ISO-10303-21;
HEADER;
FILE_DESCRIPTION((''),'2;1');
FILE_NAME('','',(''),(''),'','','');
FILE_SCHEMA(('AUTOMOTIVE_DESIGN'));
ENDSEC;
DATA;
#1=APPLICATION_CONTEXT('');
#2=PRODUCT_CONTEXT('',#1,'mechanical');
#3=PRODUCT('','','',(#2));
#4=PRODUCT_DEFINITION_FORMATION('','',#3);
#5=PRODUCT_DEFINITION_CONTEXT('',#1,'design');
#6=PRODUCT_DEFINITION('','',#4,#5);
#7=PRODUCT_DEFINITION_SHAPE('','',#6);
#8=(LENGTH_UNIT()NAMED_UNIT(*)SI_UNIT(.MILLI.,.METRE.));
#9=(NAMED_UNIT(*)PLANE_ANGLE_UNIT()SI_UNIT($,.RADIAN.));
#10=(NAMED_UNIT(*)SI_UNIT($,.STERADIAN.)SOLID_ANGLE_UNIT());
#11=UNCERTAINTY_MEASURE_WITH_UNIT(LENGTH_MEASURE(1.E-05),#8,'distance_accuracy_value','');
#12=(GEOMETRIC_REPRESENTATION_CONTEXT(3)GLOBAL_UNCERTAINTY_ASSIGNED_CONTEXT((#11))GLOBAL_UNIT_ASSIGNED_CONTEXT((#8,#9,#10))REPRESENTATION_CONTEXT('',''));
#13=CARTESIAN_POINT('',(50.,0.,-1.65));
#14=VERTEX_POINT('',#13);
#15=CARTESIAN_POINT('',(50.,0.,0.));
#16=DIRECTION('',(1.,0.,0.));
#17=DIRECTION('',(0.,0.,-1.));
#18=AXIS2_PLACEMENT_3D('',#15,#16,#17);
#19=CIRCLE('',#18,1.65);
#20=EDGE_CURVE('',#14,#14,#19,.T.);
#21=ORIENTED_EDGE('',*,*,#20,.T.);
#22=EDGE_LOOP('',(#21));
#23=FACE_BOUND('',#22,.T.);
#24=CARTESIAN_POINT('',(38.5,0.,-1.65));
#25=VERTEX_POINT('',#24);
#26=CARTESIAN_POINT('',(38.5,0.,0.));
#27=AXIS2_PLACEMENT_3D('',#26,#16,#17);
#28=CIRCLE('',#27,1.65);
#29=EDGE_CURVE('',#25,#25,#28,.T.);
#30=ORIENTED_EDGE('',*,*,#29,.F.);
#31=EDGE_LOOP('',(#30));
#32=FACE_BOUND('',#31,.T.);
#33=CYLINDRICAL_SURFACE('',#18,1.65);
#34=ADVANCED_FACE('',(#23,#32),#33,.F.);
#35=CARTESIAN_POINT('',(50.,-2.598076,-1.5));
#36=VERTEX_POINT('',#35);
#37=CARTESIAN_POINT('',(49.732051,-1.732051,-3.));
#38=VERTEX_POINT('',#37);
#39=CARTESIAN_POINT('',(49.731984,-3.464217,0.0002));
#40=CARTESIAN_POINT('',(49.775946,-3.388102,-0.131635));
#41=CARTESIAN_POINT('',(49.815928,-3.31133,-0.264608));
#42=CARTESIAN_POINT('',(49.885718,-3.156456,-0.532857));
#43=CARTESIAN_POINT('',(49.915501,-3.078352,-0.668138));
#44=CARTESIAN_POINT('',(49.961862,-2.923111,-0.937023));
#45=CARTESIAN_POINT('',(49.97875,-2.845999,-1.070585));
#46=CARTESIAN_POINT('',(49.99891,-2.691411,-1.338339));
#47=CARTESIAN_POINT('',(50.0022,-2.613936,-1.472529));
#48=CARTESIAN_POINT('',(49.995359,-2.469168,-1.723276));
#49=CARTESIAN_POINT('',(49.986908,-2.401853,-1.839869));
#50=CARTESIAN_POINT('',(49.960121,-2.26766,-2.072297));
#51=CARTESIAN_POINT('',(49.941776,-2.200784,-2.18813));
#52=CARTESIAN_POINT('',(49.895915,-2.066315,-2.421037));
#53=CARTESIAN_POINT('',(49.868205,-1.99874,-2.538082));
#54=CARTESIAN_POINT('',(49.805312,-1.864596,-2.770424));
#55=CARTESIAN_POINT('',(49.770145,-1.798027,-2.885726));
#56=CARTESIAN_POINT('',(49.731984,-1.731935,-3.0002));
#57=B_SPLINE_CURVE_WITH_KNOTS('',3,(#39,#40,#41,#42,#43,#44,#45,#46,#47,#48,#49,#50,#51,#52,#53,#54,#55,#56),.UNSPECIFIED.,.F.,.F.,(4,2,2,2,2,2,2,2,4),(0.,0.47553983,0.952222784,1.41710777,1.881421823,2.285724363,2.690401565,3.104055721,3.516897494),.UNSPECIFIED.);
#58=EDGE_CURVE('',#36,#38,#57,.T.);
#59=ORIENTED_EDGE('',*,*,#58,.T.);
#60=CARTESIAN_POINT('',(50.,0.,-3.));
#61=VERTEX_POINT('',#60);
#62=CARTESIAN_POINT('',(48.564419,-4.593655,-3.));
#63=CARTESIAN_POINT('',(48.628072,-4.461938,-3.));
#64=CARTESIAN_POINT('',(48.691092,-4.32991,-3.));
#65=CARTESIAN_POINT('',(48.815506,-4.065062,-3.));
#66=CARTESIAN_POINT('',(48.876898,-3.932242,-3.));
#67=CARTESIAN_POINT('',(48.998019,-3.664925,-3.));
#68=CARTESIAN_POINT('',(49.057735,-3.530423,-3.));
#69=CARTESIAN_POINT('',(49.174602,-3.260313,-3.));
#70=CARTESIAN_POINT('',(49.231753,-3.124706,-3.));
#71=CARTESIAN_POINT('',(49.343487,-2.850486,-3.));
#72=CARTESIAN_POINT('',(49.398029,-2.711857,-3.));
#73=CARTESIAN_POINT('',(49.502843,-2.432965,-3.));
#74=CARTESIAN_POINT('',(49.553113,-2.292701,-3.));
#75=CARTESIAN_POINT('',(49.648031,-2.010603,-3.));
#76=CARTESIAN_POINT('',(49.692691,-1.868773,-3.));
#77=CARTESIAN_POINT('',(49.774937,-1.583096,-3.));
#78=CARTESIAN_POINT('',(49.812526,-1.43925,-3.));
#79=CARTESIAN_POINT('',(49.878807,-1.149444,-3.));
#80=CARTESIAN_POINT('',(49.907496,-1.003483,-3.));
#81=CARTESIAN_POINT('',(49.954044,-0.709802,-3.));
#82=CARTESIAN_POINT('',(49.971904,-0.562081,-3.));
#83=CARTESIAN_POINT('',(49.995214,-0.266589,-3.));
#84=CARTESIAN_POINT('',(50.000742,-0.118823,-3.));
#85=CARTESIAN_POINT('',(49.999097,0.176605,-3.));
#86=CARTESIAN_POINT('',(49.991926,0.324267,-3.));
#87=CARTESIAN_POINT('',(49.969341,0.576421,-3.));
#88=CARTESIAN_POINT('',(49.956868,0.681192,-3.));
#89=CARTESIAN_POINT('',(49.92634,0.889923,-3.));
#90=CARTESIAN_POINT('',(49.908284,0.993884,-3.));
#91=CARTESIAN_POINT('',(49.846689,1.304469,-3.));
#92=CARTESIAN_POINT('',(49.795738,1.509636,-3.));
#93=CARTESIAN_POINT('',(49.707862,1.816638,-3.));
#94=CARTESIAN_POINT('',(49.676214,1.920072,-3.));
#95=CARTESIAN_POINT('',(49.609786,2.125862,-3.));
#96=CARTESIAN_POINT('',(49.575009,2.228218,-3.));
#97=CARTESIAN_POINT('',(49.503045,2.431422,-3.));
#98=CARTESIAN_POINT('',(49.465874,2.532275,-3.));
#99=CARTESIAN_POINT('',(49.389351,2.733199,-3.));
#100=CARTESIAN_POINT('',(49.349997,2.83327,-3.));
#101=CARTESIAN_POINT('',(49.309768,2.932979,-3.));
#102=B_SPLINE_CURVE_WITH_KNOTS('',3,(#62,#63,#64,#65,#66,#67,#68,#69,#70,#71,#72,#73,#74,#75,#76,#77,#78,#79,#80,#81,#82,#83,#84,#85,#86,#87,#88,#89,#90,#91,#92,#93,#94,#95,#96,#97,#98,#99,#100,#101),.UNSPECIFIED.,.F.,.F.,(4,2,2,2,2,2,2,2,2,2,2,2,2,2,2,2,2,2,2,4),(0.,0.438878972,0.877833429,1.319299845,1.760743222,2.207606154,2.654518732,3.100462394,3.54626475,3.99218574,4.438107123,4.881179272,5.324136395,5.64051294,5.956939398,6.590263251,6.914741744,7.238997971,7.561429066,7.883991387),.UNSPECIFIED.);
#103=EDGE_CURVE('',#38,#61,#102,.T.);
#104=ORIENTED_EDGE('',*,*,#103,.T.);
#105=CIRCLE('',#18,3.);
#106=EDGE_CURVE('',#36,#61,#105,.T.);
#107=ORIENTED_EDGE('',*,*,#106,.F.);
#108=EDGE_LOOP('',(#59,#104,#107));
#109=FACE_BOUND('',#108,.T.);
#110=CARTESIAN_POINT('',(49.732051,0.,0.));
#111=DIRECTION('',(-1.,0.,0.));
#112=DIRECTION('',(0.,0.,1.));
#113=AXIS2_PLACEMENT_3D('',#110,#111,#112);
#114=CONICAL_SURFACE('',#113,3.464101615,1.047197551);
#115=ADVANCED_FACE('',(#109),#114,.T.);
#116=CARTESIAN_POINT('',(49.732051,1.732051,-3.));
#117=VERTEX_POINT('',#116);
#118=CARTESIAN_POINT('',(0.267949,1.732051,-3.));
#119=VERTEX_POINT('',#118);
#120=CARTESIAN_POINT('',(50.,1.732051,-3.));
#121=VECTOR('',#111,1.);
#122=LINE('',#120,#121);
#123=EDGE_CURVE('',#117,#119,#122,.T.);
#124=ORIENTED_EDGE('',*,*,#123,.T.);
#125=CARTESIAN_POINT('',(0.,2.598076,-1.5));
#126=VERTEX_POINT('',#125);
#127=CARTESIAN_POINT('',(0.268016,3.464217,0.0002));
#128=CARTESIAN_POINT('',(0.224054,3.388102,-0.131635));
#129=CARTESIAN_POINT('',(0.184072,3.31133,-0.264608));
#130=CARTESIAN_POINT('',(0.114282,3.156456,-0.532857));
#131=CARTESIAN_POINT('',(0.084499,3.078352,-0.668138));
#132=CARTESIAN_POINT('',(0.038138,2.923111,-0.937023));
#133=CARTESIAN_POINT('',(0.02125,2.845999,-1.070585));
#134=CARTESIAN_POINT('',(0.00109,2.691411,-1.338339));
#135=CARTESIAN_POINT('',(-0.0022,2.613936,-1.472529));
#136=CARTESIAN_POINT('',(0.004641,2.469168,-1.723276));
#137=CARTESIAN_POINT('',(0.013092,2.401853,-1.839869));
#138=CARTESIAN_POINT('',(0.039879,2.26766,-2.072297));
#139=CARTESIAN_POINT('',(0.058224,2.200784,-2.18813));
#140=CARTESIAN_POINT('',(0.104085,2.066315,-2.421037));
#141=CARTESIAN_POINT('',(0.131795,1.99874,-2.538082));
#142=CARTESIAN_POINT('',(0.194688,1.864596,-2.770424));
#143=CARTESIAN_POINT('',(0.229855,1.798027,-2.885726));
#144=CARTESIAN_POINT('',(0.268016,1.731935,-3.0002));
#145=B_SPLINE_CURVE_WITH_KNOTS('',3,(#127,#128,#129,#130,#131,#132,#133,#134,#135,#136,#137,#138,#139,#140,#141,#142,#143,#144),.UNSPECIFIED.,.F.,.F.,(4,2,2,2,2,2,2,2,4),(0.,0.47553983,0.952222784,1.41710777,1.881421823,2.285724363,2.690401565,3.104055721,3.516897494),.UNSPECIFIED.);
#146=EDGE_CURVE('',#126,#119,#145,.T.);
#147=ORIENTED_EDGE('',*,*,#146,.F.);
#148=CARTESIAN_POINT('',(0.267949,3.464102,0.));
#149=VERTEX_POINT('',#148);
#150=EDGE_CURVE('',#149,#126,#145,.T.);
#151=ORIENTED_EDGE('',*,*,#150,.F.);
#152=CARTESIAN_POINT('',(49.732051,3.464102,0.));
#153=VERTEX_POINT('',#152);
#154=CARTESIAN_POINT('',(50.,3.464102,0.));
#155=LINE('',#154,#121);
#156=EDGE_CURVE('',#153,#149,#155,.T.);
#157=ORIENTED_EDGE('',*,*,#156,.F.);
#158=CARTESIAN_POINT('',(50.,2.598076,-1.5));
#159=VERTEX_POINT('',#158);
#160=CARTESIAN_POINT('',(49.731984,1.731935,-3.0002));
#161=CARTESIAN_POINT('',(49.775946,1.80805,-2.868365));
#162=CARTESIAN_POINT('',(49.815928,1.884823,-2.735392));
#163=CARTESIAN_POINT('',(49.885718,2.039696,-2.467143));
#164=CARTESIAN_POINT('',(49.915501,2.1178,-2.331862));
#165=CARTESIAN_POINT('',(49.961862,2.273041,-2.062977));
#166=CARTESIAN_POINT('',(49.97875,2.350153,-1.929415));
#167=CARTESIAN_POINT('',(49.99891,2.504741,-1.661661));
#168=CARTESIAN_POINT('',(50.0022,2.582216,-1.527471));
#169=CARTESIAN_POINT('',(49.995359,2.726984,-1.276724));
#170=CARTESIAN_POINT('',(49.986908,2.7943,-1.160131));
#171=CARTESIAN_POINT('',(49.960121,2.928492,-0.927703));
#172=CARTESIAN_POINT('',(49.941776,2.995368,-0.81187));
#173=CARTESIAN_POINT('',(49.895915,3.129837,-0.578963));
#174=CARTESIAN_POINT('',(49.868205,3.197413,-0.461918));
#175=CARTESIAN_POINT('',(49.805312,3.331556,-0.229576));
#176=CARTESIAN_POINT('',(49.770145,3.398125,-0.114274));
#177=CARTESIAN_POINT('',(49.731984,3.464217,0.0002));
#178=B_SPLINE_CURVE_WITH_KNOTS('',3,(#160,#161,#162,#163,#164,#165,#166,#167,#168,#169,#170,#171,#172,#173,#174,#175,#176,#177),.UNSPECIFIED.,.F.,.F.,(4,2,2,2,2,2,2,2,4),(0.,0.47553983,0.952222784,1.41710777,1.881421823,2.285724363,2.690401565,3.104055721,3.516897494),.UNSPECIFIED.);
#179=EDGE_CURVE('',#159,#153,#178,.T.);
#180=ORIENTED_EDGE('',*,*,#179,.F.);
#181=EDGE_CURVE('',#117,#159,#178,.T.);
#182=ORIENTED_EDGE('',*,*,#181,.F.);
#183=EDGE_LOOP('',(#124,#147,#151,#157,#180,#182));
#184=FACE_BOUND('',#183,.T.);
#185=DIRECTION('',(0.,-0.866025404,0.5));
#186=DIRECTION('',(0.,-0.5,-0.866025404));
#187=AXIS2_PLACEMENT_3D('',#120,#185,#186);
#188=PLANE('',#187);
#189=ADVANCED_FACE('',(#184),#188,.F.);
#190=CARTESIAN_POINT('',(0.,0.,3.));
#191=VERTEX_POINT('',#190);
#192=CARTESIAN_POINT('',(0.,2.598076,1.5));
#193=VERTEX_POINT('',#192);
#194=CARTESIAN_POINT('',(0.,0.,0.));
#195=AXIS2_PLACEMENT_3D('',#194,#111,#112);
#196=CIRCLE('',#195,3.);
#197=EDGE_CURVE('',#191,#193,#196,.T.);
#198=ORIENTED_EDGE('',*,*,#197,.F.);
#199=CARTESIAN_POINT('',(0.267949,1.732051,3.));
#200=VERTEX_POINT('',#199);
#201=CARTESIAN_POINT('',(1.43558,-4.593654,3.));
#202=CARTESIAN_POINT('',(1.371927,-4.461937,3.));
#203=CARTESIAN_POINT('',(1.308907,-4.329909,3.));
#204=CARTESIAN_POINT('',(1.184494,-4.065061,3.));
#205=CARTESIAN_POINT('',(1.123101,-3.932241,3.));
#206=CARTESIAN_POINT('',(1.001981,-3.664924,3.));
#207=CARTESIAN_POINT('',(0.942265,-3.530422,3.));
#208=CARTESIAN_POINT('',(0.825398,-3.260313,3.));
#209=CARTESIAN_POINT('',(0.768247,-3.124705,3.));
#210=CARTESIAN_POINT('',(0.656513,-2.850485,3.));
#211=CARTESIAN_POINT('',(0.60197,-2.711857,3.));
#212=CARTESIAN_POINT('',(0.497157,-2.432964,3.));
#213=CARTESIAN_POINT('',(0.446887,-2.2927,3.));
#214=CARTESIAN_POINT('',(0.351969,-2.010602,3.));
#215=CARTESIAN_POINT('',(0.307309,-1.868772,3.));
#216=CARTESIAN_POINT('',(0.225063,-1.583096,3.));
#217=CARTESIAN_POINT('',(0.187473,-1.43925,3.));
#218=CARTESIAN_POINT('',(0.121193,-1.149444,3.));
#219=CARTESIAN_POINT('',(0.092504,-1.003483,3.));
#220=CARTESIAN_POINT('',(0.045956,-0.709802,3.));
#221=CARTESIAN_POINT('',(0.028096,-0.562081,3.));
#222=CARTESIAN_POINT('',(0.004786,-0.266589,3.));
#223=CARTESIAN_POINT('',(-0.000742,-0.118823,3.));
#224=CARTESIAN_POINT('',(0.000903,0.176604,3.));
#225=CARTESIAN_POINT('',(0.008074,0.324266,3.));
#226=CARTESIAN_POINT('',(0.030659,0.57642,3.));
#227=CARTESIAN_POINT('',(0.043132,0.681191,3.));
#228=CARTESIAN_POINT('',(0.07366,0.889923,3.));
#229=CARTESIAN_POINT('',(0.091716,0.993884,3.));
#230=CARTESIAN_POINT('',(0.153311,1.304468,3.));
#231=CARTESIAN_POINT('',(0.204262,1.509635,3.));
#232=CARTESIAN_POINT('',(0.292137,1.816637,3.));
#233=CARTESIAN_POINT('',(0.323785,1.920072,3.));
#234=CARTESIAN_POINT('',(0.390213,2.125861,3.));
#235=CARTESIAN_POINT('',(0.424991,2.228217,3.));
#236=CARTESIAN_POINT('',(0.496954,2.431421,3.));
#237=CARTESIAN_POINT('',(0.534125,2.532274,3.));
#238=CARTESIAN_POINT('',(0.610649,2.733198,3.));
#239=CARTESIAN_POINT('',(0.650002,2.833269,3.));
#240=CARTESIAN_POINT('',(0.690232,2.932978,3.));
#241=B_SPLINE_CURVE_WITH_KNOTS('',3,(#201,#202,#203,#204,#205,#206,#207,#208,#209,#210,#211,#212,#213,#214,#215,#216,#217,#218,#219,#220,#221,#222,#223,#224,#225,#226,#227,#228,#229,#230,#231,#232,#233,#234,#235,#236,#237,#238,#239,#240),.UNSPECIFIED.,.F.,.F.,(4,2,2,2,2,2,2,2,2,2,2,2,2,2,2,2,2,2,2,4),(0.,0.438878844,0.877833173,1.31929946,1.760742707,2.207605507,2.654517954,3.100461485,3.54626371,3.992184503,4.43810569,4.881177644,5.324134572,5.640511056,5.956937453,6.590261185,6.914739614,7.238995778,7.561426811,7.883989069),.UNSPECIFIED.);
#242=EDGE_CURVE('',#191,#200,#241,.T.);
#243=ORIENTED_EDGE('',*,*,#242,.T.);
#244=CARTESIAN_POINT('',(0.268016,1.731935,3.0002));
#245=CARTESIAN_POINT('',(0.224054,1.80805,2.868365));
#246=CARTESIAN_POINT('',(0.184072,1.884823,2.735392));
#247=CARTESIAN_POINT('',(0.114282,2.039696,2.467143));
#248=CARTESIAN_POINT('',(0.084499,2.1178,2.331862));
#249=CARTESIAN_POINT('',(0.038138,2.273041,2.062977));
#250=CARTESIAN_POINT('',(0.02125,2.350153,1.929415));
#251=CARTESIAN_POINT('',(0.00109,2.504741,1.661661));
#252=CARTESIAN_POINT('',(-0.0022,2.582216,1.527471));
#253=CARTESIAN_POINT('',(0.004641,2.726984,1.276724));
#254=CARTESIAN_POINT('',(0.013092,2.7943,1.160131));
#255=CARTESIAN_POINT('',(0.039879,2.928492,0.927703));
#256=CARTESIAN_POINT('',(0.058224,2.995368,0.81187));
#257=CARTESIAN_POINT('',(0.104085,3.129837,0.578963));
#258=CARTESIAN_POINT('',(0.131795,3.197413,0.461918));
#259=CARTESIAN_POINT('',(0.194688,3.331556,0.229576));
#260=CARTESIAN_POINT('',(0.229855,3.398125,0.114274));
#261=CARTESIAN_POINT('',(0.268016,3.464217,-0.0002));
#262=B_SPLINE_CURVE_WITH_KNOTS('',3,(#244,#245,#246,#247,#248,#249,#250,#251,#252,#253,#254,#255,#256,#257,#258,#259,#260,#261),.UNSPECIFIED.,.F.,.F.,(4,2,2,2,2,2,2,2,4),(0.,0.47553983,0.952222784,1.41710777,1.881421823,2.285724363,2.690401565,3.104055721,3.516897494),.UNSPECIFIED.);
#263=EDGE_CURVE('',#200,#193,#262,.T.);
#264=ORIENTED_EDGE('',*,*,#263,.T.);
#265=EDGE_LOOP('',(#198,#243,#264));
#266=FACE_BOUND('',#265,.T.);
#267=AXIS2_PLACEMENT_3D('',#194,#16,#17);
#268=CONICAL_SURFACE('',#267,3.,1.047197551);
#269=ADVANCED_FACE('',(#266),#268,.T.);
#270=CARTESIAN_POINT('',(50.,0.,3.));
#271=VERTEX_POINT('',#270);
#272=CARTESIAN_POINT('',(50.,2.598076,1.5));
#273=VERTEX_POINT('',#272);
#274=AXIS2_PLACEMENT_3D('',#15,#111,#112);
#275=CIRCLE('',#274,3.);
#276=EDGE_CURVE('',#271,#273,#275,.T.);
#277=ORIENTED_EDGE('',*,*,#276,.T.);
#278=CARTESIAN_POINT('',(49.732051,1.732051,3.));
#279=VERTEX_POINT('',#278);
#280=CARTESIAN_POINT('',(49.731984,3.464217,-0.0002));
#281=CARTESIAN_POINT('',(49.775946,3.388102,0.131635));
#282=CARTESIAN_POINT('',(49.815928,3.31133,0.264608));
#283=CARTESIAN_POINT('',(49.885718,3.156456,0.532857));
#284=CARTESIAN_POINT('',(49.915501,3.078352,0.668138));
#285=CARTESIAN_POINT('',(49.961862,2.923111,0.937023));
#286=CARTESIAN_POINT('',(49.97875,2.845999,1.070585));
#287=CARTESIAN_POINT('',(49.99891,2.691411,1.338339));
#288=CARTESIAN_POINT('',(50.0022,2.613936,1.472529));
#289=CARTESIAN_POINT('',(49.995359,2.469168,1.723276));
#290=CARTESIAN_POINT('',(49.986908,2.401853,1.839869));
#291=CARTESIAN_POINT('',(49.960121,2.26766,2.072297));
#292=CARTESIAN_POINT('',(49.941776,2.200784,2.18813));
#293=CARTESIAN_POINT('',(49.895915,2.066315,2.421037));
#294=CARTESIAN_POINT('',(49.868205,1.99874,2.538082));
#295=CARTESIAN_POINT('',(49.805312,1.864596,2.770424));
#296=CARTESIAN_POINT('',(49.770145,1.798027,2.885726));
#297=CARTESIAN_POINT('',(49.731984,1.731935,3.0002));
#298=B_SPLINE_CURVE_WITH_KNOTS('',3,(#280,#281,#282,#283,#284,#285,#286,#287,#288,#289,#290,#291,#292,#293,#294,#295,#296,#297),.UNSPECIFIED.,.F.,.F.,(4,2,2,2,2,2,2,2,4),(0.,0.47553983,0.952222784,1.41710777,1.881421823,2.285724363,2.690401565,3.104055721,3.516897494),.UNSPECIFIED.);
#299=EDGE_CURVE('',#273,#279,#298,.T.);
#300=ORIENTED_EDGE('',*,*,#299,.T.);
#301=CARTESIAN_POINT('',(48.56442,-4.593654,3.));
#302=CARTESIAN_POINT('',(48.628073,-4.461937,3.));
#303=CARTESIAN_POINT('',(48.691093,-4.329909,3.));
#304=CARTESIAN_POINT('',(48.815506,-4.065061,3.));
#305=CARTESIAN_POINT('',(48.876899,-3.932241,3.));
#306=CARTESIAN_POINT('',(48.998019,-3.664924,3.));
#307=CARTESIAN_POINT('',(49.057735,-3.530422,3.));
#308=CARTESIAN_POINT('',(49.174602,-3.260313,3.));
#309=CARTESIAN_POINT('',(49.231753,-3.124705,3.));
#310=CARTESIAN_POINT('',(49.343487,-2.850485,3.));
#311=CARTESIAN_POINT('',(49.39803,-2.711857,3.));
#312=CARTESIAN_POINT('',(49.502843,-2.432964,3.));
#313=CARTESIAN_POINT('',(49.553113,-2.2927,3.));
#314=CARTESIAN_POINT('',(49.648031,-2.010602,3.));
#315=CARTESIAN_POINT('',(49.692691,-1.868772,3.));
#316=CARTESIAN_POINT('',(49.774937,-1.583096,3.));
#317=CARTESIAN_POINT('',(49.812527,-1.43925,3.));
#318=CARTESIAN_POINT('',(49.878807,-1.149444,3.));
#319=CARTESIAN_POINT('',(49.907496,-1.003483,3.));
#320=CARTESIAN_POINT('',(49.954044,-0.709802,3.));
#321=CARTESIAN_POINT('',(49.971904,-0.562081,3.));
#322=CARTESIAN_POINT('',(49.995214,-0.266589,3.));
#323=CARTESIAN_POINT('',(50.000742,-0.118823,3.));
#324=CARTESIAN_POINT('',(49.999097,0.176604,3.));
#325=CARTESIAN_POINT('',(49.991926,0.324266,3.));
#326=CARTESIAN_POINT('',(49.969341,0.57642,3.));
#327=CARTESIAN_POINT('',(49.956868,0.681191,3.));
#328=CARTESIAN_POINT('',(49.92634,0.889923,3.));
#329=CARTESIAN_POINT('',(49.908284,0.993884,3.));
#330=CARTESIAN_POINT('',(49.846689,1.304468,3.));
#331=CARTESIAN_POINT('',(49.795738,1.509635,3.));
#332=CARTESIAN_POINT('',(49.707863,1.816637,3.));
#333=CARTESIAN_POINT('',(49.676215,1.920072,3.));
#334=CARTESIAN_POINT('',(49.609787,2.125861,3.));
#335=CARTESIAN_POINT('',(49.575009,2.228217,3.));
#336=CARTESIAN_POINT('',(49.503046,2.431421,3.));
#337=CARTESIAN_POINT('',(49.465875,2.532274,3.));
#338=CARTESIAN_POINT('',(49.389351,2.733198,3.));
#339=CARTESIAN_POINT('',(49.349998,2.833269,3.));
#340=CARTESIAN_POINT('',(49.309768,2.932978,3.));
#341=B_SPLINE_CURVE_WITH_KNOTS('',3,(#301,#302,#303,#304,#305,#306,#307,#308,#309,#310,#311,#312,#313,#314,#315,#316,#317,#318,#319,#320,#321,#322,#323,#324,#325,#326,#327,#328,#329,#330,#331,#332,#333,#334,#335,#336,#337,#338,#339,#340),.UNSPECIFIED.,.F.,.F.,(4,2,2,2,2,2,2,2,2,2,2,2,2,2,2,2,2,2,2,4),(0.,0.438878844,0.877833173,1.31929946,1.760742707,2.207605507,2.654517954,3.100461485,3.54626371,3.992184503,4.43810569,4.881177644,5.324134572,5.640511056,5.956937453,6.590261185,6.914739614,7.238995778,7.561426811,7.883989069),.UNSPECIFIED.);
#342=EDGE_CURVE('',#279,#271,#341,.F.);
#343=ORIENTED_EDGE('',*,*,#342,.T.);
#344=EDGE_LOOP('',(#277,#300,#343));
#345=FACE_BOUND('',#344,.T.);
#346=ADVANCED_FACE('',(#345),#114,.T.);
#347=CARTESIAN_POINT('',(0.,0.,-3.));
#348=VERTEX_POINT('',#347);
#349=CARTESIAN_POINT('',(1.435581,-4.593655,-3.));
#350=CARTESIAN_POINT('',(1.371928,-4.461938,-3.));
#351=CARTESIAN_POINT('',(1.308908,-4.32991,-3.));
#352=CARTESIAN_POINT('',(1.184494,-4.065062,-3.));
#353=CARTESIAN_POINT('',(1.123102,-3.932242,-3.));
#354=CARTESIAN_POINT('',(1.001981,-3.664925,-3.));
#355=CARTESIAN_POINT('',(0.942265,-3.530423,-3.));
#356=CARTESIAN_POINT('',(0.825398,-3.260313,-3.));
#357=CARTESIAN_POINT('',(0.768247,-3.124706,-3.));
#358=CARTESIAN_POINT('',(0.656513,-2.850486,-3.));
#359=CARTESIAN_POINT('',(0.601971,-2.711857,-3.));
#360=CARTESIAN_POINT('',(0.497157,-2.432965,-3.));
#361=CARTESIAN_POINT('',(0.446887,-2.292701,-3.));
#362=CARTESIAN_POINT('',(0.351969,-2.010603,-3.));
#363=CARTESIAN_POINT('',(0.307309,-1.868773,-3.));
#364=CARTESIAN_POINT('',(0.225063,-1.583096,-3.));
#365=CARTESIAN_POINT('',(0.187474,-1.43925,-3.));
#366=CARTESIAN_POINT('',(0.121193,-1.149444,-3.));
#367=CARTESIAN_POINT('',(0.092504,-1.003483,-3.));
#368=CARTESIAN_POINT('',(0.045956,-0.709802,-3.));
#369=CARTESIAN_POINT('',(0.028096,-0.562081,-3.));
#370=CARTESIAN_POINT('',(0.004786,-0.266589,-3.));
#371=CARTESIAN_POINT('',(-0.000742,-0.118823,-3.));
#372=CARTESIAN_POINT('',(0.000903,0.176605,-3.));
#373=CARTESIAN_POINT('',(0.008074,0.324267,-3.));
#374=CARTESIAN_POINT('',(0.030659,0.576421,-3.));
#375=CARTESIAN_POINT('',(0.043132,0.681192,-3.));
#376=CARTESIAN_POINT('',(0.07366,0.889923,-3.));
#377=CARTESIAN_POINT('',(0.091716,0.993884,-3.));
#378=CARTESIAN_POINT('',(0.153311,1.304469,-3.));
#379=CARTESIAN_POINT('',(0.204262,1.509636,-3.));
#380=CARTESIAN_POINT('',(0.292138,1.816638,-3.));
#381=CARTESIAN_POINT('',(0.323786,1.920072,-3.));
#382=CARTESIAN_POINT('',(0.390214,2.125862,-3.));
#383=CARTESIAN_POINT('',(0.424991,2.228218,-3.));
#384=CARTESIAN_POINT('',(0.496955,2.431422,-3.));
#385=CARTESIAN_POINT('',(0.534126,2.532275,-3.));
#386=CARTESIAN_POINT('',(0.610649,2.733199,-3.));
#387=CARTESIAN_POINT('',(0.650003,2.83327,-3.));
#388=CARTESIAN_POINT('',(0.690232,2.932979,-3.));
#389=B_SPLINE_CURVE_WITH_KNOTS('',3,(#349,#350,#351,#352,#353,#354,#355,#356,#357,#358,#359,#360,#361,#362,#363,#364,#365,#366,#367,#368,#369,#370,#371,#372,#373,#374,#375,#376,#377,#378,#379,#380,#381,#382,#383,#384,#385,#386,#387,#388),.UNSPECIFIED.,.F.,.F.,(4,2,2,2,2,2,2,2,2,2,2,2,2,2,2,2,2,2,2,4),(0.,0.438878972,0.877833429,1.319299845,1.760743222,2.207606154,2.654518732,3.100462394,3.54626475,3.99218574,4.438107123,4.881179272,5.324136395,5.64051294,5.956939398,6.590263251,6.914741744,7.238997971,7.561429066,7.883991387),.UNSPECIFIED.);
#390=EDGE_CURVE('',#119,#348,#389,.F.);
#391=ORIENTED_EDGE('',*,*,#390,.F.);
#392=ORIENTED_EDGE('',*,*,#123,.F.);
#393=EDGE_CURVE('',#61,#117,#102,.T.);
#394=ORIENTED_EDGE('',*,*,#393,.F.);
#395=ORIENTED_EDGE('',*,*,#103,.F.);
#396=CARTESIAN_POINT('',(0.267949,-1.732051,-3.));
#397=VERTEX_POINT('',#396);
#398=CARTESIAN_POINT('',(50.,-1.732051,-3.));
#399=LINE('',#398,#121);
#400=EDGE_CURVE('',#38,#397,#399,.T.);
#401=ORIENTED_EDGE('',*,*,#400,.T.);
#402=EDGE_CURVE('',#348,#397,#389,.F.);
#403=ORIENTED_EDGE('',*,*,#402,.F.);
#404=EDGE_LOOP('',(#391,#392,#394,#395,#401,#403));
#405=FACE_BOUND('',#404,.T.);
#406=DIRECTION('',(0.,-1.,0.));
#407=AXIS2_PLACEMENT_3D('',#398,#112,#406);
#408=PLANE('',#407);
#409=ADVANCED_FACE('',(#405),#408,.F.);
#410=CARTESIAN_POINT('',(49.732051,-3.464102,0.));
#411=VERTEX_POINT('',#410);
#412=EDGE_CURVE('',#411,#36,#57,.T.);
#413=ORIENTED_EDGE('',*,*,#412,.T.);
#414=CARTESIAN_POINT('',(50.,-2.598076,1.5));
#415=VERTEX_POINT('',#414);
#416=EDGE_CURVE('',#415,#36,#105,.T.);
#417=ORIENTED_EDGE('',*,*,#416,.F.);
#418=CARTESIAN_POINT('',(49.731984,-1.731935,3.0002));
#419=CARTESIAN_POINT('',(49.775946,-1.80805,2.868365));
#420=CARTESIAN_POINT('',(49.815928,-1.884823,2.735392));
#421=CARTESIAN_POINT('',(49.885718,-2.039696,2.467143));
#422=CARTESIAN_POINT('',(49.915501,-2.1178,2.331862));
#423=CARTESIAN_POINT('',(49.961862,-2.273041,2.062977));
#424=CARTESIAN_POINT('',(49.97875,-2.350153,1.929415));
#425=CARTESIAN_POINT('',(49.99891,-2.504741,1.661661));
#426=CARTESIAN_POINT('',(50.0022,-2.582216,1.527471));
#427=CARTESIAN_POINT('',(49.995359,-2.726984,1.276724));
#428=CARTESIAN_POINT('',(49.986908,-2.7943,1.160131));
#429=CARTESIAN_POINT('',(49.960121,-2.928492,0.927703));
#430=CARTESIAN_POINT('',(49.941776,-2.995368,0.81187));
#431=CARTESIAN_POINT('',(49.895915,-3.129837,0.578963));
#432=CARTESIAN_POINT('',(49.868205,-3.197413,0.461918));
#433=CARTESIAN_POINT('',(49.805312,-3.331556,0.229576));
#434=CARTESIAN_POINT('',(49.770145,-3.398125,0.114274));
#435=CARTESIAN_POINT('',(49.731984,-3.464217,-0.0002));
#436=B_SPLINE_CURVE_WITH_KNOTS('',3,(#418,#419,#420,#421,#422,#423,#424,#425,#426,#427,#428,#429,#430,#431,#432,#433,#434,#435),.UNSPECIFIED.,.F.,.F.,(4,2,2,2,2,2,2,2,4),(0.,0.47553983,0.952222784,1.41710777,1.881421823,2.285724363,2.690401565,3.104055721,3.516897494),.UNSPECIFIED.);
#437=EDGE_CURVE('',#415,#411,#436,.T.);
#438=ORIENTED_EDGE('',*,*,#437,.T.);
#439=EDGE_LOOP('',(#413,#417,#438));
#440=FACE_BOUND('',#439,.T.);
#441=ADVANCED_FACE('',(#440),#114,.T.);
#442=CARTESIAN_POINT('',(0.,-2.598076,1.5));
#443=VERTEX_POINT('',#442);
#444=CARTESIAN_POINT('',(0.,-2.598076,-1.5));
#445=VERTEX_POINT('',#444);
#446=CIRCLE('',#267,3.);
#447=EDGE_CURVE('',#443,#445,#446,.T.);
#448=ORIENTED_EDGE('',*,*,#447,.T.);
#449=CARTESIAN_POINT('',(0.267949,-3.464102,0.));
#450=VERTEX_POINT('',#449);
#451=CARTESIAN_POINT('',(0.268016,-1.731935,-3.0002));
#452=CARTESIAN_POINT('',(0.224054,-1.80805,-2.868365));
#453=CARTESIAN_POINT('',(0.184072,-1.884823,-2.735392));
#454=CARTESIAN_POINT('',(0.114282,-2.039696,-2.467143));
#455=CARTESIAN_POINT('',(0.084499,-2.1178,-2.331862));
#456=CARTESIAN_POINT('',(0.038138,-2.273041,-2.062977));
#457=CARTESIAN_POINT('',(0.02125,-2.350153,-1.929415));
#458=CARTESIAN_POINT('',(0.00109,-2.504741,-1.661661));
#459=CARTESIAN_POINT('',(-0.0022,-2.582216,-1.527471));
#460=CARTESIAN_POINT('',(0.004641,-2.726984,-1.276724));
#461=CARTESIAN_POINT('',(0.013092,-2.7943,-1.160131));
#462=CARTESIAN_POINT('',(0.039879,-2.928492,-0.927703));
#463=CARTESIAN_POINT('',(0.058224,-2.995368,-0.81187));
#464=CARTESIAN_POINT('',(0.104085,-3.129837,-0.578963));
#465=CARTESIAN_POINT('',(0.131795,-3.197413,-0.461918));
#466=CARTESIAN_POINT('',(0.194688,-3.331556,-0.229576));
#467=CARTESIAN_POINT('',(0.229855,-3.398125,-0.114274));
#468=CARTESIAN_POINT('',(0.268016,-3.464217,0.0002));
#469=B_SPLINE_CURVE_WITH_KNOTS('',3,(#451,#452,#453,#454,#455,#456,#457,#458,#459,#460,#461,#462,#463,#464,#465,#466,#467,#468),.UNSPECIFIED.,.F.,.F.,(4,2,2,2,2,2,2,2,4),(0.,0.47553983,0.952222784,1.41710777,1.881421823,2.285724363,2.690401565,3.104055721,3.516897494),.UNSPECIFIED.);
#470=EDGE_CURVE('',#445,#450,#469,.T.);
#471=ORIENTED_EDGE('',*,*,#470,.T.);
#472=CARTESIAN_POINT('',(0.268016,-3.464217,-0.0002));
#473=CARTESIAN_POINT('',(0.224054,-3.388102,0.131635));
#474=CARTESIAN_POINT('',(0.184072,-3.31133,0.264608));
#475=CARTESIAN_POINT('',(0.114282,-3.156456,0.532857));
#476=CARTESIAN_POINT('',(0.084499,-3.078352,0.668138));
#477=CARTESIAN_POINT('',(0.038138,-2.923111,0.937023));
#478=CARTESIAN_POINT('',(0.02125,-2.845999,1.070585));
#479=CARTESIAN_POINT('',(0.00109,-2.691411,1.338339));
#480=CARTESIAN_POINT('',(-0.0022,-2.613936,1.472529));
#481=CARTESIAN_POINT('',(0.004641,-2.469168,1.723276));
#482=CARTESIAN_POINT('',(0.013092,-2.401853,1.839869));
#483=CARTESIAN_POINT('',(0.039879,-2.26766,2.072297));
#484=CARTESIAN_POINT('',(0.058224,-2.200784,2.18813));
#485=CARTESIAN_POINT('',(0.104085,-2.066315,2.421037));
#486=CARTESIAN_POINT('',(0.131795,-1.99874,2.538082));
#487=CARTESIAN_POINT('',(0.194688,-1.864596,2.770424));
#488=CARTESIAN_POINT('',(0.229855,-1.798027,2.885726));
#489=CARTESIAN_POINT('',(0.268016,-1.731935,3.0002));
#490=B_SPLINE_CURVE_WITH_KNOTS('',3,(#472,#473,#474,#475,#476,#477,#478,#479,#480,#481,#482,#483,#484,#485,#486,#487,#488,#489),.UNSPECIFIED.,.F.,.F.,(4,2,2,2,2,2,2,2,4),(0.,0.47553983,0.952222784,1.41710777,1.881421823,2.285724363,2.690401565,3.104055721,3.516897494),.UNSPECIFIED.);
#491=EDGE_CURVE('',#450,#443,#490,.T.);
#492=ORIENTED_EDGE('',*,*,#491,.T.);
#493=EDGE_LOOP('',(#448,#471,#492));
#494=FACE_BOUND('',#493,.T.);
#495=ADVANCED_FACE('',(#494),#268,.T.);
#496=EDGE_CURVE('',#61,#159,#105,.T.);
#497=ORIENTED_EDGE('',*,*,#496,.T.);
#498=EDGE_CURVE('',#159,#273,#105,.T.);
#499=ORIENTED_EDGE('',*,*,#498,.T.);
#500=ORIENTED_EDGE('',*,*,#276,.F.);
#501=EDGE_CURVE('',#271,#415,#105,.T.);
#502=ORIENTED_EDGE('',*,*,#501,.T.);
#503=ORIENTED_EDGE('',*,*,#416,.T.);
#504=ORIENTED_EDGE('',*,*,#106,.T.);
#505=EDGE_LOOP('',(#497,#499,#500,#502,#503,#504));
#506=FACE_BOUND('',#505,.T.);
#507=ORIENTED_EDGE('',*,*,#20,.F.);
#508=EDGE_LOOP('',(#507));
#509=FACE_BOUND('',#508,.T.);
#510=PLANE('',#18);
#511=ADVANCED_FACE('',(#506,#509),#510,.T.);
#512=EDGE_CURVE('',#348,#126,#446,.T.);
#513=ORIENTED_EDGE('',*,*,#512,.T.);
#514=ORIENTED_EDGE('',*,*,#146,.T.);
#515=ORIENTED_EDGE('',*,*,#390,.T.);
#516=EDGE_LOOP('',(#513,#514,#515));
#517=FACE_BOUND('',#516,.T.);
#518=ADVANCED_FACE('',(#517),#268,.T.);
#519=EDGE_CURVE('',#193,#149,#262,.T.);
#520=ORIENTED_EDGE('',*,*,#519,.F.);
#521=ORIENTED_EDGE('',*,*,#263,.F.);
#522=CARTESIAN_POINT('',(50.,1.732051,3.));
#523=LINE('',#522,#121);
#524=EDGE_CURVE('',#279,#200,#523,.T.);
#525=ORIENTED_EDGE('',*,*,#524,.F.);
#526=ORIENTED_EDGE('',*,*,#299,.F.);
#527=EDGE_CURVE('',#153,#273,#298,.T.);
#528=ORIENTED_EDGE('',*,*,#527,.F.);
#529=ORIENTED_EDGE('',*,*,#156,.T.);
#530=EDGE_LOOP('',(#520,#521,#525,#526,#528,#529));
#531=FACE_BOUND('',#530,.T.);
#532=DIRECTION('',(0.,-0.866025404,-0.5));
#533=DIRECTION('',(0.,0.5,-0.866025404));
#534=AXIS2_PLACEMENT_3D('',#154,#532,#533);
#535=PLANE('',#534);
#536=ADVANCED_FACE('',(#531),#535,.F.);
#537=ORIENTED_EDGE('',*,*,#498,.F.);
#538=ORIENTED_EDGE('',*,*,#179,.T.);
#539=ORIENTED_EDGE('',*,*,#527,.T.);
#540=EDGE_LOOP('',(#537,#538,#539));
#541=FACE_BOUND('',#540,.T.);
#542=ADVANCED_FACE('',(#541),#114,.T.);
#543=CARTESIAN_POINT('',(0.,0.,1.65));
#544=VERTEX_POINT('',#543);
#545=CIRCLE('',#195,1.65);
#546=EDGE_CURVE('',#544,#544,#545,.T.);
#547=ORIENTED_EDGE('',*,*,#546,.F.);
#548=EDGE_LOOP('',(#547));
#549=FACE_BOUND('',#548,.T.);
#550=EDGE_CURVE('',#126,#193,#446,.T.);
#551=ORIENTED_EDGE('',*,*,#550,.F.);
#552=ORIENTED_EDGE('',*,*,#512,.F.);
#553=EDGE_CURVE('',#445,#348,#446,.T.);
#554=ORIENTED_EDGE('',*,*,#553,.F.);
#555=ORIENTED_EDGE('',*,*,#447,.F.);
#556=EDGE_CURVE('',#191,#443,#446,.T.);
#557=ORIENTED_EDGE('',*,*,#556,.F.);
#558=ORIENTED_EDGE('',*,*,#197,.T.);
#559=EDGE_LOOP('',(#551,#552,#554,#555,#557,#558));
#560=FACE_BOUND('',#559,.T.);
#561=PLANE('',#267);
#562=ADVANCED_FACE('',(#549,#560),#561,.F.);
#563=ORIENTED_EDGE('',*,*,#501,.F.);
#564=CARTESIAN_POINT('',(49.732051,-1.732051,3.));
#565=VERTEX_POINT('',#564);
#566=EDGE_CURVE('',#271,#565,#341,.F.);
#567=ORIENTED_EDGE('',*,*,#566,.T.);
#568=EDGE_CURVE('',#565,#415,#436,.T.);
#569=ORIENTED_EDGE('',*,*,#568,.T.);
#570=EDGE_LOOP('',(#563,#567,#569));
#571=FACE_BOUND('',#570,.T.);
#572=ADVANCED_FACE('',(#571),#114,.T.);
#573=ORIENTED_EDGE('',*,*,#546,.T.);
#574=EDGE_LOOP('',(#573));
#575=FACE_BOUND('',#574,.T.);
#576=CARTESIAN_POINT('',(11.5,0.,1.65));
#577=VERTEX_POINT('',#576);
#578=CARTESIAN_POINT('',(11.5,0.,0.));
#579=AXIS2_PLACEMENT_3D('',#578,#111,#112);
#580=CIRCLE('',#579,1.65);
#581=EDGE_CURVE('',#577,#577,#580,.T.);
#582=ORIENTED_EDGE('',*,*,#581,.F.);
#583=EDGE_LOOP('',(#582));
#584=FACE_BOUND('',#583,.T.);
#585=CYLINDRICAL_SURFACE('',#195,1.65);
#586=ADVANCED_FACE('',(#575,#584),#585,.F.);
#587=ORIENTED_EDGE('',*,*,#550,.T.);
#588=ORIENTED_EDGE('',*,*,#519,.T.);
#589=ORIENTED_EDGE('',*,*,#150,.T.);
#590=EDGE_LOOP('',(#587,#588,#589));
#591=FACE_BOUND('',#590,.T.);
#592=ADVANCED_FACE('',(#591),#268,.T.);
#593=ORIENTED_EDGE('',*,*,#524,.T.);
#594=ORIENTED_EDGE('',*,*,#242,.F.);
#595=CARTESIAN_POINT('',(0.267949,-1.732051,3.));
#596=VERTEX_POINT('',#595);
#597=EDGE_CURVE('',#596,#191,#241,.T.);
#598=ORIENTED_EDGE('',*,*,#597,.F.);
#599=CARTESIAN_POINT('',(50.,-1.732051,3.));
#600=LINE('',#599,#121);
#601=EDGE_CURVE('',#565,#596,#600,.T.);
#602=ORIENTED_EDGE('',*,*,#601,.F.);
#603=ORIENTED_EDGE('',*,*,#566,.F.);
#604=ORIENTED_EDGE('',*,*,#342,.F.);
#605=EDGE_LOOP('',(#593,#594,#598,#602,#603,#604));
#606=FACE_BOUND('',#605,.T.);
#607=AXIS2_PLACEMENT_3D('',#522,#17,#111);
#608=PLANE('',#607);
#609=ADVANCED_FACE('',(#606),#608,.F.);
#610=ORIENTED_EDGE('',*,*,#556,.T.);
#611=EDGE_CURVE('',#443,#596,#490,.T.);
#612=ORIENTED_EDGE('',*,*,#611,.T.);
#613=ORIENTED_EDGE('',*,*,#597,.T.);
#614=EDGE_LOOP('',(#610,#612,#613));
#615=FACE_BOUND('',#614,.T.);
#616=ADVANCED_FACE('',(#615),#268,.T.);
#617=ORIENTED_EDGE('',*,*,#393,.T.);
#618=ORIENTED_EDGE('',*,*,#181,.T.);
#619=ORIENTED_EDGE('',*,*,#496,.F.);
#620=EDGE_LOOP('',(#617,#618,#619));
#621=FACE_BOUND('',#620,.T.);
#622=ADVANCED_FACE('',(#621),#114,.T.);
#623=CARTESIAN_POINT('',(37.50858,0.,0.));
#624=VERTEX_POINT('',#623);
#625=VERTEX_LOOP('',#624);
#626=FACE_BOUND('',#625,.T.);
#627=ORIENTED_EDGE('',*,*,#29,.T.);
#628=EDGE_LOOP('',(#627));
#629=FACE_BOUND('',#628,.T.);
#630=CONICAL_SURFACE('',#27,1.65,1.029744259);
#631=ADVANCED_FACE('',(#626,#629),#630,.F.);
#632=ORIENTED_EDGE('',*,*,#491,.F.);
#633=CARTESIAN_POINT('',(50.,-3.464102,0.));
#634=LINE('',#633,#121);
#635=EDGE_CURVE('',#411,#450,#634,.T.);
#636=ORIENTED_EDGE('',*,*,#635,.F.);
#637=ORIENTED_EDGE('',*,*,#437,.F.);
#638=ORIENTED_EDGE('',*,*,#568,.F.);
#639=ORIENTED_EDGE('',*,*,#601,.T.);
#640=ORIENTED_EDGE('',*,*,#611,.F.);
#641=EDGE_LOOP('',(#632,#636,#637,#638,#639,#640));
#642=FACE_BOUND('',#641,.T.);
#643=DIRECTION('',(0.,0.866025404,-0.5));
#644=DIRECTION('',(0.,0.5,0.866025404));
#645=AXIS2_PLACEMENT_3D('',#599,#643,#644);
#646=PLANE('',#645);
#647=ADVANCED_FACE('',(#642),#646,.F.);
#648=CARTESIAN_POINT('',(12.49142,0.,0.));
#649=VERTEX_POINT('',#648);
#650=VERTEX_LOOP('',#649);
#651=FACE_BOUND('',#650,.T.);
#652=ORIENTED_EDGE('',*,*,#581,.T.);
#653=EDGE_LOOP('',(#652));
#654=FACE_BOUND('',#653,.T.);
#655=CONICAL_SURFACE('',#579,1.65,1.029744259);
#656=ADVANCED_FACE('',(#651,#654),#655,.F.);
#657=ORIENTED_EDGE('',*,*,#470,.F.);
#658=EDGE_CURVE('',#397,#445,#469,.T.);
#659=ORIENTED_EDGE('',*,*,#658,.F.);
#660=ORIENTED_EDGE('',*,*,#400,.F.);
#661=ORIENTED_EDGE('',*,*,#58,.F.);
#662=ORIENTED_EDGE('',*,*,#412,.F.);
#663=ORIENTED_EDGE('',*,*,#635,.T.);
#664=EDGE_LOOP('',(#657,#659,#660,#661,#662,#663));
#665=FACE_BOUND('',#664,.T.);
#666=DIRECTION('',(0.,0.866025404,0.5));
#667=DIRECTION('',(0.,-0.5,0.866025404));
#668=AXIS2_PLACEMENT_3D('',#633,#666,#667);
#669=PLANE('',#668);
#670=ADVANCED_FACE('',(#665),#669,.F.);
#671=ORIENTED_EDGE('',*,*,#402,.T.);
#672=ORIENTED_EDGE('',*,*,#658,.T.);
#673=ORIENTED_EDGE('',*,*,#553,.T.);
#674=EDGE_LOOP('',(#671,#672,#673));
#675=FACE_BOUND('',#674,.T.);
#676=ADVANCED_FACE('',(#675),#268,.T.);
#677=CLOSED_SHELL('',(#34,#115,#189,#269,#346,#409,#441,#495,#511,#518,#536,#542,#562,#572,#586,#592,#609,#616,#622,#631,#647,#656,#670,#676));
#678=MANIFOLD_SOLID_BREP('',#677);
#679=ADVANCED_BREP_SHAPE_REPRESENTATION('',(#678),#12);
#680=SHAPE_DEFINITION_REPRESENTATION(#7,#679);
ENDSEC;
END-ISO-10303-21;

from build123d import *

# Parameters (mm, degrees)
BOSS_EXTRUDE1_DEPTH = 50
SKETCH21_W          = 50
SKETCH21_H          = 3
TAPPED_HOLE4_D      = 3.3
TAPPED_HOLE4_DEPTH  = 11.5
TAPPED_HOLE4_TIP    = 0.991420021
TAPPED_HOLE5_D      = 3.3
TAPPED_HOLE5_DEPTH  = 11.5
TAPPED_HOLE5_TIP    = 0.991420021


with BuildPart() as part:
    # Sketch1 → Boss-Extrude1 (new body)
    with BuildSketch(Plane(origin=(0, 0, 0), x_dir=(0, 0, -1), z_dir=(1, 0, 0))):
        Polygon((0, -3.464101615), (3, -1.732050808), (3, 1.732050808), (0, 3.464101615), (-3, 1.732050808), (-3, -1.732050808), align=None)
    extrude(amount=BOSS_EXTRUDE1_DEPTH)

    # Sketch2 → Cut-Revolve1 (revolve, cut)
    with BuildSketch(Plane.XY):
        Polygon((0, 3.464101615), (0.267949192, 3.464101615), (0, 3), align=None)
        Polygon((49.732050808, 3.464101615), (50, 3), (50, 3.464101615), align=None)
    revolve(axis=Axis((0, 0, 0), (1, 0, 0)), mode=Mode.SUBTRACT)

    # Sketch21 → Revolve1 (revolve)
    with BuildSketch(Plane.XY):
        with Locations((25, 1.5)):
            Rectangle(SKETCH21_W, SKETCH21_H)
    revolve(axis=Axis((0, 0, 0), (1, 0, 0)))

    # Tapped Hole4
    with Locations(Plane(origin=(0, -0.118657881, 0.00506752), x_dir=(0, 0, -1), z_dir=(-1, 0, 0))):
        with Locations((0.00506752, -0.118657881)):
            Hole(TAPPED_HOLE4_D / 2, depth=TAPPED_HOLE4_DEPTH)
            with Locations((0, 0, -(TAPPED_HOLE4_DEPTH + TAPPED_HOLE4_TIP / 2))):  # 118° drill point
                Cone(0, TAPPED_HOLE4_D / 2, TAPPED_HOLE4_TIP, mode=Mode.SUBTRACT)

    # Tapped Hole5
    with Locations(Plane(origin=(50, 0.843813549, 0.0751412), x_dir=(0, 0, -1), z_dir=(1, 0, 0))):
        with Locations((0.0751412, -0.843813549)):
            Hole(TAPPED_HOLE5_D / 2, depth=TAPPED_HOLE5_DEPTH)
            with Locations((0, 0, -(TAPPED_HOLE5_DEPTH + TAPPED_HOLE5_TIP / 2))):  # 118° drill point
                Cone(0, TAPPED_HOLE5_D / 2, TAPPED_HOLE5_TIP, mode=Mode.SUBTRACT)


solid = part.part
